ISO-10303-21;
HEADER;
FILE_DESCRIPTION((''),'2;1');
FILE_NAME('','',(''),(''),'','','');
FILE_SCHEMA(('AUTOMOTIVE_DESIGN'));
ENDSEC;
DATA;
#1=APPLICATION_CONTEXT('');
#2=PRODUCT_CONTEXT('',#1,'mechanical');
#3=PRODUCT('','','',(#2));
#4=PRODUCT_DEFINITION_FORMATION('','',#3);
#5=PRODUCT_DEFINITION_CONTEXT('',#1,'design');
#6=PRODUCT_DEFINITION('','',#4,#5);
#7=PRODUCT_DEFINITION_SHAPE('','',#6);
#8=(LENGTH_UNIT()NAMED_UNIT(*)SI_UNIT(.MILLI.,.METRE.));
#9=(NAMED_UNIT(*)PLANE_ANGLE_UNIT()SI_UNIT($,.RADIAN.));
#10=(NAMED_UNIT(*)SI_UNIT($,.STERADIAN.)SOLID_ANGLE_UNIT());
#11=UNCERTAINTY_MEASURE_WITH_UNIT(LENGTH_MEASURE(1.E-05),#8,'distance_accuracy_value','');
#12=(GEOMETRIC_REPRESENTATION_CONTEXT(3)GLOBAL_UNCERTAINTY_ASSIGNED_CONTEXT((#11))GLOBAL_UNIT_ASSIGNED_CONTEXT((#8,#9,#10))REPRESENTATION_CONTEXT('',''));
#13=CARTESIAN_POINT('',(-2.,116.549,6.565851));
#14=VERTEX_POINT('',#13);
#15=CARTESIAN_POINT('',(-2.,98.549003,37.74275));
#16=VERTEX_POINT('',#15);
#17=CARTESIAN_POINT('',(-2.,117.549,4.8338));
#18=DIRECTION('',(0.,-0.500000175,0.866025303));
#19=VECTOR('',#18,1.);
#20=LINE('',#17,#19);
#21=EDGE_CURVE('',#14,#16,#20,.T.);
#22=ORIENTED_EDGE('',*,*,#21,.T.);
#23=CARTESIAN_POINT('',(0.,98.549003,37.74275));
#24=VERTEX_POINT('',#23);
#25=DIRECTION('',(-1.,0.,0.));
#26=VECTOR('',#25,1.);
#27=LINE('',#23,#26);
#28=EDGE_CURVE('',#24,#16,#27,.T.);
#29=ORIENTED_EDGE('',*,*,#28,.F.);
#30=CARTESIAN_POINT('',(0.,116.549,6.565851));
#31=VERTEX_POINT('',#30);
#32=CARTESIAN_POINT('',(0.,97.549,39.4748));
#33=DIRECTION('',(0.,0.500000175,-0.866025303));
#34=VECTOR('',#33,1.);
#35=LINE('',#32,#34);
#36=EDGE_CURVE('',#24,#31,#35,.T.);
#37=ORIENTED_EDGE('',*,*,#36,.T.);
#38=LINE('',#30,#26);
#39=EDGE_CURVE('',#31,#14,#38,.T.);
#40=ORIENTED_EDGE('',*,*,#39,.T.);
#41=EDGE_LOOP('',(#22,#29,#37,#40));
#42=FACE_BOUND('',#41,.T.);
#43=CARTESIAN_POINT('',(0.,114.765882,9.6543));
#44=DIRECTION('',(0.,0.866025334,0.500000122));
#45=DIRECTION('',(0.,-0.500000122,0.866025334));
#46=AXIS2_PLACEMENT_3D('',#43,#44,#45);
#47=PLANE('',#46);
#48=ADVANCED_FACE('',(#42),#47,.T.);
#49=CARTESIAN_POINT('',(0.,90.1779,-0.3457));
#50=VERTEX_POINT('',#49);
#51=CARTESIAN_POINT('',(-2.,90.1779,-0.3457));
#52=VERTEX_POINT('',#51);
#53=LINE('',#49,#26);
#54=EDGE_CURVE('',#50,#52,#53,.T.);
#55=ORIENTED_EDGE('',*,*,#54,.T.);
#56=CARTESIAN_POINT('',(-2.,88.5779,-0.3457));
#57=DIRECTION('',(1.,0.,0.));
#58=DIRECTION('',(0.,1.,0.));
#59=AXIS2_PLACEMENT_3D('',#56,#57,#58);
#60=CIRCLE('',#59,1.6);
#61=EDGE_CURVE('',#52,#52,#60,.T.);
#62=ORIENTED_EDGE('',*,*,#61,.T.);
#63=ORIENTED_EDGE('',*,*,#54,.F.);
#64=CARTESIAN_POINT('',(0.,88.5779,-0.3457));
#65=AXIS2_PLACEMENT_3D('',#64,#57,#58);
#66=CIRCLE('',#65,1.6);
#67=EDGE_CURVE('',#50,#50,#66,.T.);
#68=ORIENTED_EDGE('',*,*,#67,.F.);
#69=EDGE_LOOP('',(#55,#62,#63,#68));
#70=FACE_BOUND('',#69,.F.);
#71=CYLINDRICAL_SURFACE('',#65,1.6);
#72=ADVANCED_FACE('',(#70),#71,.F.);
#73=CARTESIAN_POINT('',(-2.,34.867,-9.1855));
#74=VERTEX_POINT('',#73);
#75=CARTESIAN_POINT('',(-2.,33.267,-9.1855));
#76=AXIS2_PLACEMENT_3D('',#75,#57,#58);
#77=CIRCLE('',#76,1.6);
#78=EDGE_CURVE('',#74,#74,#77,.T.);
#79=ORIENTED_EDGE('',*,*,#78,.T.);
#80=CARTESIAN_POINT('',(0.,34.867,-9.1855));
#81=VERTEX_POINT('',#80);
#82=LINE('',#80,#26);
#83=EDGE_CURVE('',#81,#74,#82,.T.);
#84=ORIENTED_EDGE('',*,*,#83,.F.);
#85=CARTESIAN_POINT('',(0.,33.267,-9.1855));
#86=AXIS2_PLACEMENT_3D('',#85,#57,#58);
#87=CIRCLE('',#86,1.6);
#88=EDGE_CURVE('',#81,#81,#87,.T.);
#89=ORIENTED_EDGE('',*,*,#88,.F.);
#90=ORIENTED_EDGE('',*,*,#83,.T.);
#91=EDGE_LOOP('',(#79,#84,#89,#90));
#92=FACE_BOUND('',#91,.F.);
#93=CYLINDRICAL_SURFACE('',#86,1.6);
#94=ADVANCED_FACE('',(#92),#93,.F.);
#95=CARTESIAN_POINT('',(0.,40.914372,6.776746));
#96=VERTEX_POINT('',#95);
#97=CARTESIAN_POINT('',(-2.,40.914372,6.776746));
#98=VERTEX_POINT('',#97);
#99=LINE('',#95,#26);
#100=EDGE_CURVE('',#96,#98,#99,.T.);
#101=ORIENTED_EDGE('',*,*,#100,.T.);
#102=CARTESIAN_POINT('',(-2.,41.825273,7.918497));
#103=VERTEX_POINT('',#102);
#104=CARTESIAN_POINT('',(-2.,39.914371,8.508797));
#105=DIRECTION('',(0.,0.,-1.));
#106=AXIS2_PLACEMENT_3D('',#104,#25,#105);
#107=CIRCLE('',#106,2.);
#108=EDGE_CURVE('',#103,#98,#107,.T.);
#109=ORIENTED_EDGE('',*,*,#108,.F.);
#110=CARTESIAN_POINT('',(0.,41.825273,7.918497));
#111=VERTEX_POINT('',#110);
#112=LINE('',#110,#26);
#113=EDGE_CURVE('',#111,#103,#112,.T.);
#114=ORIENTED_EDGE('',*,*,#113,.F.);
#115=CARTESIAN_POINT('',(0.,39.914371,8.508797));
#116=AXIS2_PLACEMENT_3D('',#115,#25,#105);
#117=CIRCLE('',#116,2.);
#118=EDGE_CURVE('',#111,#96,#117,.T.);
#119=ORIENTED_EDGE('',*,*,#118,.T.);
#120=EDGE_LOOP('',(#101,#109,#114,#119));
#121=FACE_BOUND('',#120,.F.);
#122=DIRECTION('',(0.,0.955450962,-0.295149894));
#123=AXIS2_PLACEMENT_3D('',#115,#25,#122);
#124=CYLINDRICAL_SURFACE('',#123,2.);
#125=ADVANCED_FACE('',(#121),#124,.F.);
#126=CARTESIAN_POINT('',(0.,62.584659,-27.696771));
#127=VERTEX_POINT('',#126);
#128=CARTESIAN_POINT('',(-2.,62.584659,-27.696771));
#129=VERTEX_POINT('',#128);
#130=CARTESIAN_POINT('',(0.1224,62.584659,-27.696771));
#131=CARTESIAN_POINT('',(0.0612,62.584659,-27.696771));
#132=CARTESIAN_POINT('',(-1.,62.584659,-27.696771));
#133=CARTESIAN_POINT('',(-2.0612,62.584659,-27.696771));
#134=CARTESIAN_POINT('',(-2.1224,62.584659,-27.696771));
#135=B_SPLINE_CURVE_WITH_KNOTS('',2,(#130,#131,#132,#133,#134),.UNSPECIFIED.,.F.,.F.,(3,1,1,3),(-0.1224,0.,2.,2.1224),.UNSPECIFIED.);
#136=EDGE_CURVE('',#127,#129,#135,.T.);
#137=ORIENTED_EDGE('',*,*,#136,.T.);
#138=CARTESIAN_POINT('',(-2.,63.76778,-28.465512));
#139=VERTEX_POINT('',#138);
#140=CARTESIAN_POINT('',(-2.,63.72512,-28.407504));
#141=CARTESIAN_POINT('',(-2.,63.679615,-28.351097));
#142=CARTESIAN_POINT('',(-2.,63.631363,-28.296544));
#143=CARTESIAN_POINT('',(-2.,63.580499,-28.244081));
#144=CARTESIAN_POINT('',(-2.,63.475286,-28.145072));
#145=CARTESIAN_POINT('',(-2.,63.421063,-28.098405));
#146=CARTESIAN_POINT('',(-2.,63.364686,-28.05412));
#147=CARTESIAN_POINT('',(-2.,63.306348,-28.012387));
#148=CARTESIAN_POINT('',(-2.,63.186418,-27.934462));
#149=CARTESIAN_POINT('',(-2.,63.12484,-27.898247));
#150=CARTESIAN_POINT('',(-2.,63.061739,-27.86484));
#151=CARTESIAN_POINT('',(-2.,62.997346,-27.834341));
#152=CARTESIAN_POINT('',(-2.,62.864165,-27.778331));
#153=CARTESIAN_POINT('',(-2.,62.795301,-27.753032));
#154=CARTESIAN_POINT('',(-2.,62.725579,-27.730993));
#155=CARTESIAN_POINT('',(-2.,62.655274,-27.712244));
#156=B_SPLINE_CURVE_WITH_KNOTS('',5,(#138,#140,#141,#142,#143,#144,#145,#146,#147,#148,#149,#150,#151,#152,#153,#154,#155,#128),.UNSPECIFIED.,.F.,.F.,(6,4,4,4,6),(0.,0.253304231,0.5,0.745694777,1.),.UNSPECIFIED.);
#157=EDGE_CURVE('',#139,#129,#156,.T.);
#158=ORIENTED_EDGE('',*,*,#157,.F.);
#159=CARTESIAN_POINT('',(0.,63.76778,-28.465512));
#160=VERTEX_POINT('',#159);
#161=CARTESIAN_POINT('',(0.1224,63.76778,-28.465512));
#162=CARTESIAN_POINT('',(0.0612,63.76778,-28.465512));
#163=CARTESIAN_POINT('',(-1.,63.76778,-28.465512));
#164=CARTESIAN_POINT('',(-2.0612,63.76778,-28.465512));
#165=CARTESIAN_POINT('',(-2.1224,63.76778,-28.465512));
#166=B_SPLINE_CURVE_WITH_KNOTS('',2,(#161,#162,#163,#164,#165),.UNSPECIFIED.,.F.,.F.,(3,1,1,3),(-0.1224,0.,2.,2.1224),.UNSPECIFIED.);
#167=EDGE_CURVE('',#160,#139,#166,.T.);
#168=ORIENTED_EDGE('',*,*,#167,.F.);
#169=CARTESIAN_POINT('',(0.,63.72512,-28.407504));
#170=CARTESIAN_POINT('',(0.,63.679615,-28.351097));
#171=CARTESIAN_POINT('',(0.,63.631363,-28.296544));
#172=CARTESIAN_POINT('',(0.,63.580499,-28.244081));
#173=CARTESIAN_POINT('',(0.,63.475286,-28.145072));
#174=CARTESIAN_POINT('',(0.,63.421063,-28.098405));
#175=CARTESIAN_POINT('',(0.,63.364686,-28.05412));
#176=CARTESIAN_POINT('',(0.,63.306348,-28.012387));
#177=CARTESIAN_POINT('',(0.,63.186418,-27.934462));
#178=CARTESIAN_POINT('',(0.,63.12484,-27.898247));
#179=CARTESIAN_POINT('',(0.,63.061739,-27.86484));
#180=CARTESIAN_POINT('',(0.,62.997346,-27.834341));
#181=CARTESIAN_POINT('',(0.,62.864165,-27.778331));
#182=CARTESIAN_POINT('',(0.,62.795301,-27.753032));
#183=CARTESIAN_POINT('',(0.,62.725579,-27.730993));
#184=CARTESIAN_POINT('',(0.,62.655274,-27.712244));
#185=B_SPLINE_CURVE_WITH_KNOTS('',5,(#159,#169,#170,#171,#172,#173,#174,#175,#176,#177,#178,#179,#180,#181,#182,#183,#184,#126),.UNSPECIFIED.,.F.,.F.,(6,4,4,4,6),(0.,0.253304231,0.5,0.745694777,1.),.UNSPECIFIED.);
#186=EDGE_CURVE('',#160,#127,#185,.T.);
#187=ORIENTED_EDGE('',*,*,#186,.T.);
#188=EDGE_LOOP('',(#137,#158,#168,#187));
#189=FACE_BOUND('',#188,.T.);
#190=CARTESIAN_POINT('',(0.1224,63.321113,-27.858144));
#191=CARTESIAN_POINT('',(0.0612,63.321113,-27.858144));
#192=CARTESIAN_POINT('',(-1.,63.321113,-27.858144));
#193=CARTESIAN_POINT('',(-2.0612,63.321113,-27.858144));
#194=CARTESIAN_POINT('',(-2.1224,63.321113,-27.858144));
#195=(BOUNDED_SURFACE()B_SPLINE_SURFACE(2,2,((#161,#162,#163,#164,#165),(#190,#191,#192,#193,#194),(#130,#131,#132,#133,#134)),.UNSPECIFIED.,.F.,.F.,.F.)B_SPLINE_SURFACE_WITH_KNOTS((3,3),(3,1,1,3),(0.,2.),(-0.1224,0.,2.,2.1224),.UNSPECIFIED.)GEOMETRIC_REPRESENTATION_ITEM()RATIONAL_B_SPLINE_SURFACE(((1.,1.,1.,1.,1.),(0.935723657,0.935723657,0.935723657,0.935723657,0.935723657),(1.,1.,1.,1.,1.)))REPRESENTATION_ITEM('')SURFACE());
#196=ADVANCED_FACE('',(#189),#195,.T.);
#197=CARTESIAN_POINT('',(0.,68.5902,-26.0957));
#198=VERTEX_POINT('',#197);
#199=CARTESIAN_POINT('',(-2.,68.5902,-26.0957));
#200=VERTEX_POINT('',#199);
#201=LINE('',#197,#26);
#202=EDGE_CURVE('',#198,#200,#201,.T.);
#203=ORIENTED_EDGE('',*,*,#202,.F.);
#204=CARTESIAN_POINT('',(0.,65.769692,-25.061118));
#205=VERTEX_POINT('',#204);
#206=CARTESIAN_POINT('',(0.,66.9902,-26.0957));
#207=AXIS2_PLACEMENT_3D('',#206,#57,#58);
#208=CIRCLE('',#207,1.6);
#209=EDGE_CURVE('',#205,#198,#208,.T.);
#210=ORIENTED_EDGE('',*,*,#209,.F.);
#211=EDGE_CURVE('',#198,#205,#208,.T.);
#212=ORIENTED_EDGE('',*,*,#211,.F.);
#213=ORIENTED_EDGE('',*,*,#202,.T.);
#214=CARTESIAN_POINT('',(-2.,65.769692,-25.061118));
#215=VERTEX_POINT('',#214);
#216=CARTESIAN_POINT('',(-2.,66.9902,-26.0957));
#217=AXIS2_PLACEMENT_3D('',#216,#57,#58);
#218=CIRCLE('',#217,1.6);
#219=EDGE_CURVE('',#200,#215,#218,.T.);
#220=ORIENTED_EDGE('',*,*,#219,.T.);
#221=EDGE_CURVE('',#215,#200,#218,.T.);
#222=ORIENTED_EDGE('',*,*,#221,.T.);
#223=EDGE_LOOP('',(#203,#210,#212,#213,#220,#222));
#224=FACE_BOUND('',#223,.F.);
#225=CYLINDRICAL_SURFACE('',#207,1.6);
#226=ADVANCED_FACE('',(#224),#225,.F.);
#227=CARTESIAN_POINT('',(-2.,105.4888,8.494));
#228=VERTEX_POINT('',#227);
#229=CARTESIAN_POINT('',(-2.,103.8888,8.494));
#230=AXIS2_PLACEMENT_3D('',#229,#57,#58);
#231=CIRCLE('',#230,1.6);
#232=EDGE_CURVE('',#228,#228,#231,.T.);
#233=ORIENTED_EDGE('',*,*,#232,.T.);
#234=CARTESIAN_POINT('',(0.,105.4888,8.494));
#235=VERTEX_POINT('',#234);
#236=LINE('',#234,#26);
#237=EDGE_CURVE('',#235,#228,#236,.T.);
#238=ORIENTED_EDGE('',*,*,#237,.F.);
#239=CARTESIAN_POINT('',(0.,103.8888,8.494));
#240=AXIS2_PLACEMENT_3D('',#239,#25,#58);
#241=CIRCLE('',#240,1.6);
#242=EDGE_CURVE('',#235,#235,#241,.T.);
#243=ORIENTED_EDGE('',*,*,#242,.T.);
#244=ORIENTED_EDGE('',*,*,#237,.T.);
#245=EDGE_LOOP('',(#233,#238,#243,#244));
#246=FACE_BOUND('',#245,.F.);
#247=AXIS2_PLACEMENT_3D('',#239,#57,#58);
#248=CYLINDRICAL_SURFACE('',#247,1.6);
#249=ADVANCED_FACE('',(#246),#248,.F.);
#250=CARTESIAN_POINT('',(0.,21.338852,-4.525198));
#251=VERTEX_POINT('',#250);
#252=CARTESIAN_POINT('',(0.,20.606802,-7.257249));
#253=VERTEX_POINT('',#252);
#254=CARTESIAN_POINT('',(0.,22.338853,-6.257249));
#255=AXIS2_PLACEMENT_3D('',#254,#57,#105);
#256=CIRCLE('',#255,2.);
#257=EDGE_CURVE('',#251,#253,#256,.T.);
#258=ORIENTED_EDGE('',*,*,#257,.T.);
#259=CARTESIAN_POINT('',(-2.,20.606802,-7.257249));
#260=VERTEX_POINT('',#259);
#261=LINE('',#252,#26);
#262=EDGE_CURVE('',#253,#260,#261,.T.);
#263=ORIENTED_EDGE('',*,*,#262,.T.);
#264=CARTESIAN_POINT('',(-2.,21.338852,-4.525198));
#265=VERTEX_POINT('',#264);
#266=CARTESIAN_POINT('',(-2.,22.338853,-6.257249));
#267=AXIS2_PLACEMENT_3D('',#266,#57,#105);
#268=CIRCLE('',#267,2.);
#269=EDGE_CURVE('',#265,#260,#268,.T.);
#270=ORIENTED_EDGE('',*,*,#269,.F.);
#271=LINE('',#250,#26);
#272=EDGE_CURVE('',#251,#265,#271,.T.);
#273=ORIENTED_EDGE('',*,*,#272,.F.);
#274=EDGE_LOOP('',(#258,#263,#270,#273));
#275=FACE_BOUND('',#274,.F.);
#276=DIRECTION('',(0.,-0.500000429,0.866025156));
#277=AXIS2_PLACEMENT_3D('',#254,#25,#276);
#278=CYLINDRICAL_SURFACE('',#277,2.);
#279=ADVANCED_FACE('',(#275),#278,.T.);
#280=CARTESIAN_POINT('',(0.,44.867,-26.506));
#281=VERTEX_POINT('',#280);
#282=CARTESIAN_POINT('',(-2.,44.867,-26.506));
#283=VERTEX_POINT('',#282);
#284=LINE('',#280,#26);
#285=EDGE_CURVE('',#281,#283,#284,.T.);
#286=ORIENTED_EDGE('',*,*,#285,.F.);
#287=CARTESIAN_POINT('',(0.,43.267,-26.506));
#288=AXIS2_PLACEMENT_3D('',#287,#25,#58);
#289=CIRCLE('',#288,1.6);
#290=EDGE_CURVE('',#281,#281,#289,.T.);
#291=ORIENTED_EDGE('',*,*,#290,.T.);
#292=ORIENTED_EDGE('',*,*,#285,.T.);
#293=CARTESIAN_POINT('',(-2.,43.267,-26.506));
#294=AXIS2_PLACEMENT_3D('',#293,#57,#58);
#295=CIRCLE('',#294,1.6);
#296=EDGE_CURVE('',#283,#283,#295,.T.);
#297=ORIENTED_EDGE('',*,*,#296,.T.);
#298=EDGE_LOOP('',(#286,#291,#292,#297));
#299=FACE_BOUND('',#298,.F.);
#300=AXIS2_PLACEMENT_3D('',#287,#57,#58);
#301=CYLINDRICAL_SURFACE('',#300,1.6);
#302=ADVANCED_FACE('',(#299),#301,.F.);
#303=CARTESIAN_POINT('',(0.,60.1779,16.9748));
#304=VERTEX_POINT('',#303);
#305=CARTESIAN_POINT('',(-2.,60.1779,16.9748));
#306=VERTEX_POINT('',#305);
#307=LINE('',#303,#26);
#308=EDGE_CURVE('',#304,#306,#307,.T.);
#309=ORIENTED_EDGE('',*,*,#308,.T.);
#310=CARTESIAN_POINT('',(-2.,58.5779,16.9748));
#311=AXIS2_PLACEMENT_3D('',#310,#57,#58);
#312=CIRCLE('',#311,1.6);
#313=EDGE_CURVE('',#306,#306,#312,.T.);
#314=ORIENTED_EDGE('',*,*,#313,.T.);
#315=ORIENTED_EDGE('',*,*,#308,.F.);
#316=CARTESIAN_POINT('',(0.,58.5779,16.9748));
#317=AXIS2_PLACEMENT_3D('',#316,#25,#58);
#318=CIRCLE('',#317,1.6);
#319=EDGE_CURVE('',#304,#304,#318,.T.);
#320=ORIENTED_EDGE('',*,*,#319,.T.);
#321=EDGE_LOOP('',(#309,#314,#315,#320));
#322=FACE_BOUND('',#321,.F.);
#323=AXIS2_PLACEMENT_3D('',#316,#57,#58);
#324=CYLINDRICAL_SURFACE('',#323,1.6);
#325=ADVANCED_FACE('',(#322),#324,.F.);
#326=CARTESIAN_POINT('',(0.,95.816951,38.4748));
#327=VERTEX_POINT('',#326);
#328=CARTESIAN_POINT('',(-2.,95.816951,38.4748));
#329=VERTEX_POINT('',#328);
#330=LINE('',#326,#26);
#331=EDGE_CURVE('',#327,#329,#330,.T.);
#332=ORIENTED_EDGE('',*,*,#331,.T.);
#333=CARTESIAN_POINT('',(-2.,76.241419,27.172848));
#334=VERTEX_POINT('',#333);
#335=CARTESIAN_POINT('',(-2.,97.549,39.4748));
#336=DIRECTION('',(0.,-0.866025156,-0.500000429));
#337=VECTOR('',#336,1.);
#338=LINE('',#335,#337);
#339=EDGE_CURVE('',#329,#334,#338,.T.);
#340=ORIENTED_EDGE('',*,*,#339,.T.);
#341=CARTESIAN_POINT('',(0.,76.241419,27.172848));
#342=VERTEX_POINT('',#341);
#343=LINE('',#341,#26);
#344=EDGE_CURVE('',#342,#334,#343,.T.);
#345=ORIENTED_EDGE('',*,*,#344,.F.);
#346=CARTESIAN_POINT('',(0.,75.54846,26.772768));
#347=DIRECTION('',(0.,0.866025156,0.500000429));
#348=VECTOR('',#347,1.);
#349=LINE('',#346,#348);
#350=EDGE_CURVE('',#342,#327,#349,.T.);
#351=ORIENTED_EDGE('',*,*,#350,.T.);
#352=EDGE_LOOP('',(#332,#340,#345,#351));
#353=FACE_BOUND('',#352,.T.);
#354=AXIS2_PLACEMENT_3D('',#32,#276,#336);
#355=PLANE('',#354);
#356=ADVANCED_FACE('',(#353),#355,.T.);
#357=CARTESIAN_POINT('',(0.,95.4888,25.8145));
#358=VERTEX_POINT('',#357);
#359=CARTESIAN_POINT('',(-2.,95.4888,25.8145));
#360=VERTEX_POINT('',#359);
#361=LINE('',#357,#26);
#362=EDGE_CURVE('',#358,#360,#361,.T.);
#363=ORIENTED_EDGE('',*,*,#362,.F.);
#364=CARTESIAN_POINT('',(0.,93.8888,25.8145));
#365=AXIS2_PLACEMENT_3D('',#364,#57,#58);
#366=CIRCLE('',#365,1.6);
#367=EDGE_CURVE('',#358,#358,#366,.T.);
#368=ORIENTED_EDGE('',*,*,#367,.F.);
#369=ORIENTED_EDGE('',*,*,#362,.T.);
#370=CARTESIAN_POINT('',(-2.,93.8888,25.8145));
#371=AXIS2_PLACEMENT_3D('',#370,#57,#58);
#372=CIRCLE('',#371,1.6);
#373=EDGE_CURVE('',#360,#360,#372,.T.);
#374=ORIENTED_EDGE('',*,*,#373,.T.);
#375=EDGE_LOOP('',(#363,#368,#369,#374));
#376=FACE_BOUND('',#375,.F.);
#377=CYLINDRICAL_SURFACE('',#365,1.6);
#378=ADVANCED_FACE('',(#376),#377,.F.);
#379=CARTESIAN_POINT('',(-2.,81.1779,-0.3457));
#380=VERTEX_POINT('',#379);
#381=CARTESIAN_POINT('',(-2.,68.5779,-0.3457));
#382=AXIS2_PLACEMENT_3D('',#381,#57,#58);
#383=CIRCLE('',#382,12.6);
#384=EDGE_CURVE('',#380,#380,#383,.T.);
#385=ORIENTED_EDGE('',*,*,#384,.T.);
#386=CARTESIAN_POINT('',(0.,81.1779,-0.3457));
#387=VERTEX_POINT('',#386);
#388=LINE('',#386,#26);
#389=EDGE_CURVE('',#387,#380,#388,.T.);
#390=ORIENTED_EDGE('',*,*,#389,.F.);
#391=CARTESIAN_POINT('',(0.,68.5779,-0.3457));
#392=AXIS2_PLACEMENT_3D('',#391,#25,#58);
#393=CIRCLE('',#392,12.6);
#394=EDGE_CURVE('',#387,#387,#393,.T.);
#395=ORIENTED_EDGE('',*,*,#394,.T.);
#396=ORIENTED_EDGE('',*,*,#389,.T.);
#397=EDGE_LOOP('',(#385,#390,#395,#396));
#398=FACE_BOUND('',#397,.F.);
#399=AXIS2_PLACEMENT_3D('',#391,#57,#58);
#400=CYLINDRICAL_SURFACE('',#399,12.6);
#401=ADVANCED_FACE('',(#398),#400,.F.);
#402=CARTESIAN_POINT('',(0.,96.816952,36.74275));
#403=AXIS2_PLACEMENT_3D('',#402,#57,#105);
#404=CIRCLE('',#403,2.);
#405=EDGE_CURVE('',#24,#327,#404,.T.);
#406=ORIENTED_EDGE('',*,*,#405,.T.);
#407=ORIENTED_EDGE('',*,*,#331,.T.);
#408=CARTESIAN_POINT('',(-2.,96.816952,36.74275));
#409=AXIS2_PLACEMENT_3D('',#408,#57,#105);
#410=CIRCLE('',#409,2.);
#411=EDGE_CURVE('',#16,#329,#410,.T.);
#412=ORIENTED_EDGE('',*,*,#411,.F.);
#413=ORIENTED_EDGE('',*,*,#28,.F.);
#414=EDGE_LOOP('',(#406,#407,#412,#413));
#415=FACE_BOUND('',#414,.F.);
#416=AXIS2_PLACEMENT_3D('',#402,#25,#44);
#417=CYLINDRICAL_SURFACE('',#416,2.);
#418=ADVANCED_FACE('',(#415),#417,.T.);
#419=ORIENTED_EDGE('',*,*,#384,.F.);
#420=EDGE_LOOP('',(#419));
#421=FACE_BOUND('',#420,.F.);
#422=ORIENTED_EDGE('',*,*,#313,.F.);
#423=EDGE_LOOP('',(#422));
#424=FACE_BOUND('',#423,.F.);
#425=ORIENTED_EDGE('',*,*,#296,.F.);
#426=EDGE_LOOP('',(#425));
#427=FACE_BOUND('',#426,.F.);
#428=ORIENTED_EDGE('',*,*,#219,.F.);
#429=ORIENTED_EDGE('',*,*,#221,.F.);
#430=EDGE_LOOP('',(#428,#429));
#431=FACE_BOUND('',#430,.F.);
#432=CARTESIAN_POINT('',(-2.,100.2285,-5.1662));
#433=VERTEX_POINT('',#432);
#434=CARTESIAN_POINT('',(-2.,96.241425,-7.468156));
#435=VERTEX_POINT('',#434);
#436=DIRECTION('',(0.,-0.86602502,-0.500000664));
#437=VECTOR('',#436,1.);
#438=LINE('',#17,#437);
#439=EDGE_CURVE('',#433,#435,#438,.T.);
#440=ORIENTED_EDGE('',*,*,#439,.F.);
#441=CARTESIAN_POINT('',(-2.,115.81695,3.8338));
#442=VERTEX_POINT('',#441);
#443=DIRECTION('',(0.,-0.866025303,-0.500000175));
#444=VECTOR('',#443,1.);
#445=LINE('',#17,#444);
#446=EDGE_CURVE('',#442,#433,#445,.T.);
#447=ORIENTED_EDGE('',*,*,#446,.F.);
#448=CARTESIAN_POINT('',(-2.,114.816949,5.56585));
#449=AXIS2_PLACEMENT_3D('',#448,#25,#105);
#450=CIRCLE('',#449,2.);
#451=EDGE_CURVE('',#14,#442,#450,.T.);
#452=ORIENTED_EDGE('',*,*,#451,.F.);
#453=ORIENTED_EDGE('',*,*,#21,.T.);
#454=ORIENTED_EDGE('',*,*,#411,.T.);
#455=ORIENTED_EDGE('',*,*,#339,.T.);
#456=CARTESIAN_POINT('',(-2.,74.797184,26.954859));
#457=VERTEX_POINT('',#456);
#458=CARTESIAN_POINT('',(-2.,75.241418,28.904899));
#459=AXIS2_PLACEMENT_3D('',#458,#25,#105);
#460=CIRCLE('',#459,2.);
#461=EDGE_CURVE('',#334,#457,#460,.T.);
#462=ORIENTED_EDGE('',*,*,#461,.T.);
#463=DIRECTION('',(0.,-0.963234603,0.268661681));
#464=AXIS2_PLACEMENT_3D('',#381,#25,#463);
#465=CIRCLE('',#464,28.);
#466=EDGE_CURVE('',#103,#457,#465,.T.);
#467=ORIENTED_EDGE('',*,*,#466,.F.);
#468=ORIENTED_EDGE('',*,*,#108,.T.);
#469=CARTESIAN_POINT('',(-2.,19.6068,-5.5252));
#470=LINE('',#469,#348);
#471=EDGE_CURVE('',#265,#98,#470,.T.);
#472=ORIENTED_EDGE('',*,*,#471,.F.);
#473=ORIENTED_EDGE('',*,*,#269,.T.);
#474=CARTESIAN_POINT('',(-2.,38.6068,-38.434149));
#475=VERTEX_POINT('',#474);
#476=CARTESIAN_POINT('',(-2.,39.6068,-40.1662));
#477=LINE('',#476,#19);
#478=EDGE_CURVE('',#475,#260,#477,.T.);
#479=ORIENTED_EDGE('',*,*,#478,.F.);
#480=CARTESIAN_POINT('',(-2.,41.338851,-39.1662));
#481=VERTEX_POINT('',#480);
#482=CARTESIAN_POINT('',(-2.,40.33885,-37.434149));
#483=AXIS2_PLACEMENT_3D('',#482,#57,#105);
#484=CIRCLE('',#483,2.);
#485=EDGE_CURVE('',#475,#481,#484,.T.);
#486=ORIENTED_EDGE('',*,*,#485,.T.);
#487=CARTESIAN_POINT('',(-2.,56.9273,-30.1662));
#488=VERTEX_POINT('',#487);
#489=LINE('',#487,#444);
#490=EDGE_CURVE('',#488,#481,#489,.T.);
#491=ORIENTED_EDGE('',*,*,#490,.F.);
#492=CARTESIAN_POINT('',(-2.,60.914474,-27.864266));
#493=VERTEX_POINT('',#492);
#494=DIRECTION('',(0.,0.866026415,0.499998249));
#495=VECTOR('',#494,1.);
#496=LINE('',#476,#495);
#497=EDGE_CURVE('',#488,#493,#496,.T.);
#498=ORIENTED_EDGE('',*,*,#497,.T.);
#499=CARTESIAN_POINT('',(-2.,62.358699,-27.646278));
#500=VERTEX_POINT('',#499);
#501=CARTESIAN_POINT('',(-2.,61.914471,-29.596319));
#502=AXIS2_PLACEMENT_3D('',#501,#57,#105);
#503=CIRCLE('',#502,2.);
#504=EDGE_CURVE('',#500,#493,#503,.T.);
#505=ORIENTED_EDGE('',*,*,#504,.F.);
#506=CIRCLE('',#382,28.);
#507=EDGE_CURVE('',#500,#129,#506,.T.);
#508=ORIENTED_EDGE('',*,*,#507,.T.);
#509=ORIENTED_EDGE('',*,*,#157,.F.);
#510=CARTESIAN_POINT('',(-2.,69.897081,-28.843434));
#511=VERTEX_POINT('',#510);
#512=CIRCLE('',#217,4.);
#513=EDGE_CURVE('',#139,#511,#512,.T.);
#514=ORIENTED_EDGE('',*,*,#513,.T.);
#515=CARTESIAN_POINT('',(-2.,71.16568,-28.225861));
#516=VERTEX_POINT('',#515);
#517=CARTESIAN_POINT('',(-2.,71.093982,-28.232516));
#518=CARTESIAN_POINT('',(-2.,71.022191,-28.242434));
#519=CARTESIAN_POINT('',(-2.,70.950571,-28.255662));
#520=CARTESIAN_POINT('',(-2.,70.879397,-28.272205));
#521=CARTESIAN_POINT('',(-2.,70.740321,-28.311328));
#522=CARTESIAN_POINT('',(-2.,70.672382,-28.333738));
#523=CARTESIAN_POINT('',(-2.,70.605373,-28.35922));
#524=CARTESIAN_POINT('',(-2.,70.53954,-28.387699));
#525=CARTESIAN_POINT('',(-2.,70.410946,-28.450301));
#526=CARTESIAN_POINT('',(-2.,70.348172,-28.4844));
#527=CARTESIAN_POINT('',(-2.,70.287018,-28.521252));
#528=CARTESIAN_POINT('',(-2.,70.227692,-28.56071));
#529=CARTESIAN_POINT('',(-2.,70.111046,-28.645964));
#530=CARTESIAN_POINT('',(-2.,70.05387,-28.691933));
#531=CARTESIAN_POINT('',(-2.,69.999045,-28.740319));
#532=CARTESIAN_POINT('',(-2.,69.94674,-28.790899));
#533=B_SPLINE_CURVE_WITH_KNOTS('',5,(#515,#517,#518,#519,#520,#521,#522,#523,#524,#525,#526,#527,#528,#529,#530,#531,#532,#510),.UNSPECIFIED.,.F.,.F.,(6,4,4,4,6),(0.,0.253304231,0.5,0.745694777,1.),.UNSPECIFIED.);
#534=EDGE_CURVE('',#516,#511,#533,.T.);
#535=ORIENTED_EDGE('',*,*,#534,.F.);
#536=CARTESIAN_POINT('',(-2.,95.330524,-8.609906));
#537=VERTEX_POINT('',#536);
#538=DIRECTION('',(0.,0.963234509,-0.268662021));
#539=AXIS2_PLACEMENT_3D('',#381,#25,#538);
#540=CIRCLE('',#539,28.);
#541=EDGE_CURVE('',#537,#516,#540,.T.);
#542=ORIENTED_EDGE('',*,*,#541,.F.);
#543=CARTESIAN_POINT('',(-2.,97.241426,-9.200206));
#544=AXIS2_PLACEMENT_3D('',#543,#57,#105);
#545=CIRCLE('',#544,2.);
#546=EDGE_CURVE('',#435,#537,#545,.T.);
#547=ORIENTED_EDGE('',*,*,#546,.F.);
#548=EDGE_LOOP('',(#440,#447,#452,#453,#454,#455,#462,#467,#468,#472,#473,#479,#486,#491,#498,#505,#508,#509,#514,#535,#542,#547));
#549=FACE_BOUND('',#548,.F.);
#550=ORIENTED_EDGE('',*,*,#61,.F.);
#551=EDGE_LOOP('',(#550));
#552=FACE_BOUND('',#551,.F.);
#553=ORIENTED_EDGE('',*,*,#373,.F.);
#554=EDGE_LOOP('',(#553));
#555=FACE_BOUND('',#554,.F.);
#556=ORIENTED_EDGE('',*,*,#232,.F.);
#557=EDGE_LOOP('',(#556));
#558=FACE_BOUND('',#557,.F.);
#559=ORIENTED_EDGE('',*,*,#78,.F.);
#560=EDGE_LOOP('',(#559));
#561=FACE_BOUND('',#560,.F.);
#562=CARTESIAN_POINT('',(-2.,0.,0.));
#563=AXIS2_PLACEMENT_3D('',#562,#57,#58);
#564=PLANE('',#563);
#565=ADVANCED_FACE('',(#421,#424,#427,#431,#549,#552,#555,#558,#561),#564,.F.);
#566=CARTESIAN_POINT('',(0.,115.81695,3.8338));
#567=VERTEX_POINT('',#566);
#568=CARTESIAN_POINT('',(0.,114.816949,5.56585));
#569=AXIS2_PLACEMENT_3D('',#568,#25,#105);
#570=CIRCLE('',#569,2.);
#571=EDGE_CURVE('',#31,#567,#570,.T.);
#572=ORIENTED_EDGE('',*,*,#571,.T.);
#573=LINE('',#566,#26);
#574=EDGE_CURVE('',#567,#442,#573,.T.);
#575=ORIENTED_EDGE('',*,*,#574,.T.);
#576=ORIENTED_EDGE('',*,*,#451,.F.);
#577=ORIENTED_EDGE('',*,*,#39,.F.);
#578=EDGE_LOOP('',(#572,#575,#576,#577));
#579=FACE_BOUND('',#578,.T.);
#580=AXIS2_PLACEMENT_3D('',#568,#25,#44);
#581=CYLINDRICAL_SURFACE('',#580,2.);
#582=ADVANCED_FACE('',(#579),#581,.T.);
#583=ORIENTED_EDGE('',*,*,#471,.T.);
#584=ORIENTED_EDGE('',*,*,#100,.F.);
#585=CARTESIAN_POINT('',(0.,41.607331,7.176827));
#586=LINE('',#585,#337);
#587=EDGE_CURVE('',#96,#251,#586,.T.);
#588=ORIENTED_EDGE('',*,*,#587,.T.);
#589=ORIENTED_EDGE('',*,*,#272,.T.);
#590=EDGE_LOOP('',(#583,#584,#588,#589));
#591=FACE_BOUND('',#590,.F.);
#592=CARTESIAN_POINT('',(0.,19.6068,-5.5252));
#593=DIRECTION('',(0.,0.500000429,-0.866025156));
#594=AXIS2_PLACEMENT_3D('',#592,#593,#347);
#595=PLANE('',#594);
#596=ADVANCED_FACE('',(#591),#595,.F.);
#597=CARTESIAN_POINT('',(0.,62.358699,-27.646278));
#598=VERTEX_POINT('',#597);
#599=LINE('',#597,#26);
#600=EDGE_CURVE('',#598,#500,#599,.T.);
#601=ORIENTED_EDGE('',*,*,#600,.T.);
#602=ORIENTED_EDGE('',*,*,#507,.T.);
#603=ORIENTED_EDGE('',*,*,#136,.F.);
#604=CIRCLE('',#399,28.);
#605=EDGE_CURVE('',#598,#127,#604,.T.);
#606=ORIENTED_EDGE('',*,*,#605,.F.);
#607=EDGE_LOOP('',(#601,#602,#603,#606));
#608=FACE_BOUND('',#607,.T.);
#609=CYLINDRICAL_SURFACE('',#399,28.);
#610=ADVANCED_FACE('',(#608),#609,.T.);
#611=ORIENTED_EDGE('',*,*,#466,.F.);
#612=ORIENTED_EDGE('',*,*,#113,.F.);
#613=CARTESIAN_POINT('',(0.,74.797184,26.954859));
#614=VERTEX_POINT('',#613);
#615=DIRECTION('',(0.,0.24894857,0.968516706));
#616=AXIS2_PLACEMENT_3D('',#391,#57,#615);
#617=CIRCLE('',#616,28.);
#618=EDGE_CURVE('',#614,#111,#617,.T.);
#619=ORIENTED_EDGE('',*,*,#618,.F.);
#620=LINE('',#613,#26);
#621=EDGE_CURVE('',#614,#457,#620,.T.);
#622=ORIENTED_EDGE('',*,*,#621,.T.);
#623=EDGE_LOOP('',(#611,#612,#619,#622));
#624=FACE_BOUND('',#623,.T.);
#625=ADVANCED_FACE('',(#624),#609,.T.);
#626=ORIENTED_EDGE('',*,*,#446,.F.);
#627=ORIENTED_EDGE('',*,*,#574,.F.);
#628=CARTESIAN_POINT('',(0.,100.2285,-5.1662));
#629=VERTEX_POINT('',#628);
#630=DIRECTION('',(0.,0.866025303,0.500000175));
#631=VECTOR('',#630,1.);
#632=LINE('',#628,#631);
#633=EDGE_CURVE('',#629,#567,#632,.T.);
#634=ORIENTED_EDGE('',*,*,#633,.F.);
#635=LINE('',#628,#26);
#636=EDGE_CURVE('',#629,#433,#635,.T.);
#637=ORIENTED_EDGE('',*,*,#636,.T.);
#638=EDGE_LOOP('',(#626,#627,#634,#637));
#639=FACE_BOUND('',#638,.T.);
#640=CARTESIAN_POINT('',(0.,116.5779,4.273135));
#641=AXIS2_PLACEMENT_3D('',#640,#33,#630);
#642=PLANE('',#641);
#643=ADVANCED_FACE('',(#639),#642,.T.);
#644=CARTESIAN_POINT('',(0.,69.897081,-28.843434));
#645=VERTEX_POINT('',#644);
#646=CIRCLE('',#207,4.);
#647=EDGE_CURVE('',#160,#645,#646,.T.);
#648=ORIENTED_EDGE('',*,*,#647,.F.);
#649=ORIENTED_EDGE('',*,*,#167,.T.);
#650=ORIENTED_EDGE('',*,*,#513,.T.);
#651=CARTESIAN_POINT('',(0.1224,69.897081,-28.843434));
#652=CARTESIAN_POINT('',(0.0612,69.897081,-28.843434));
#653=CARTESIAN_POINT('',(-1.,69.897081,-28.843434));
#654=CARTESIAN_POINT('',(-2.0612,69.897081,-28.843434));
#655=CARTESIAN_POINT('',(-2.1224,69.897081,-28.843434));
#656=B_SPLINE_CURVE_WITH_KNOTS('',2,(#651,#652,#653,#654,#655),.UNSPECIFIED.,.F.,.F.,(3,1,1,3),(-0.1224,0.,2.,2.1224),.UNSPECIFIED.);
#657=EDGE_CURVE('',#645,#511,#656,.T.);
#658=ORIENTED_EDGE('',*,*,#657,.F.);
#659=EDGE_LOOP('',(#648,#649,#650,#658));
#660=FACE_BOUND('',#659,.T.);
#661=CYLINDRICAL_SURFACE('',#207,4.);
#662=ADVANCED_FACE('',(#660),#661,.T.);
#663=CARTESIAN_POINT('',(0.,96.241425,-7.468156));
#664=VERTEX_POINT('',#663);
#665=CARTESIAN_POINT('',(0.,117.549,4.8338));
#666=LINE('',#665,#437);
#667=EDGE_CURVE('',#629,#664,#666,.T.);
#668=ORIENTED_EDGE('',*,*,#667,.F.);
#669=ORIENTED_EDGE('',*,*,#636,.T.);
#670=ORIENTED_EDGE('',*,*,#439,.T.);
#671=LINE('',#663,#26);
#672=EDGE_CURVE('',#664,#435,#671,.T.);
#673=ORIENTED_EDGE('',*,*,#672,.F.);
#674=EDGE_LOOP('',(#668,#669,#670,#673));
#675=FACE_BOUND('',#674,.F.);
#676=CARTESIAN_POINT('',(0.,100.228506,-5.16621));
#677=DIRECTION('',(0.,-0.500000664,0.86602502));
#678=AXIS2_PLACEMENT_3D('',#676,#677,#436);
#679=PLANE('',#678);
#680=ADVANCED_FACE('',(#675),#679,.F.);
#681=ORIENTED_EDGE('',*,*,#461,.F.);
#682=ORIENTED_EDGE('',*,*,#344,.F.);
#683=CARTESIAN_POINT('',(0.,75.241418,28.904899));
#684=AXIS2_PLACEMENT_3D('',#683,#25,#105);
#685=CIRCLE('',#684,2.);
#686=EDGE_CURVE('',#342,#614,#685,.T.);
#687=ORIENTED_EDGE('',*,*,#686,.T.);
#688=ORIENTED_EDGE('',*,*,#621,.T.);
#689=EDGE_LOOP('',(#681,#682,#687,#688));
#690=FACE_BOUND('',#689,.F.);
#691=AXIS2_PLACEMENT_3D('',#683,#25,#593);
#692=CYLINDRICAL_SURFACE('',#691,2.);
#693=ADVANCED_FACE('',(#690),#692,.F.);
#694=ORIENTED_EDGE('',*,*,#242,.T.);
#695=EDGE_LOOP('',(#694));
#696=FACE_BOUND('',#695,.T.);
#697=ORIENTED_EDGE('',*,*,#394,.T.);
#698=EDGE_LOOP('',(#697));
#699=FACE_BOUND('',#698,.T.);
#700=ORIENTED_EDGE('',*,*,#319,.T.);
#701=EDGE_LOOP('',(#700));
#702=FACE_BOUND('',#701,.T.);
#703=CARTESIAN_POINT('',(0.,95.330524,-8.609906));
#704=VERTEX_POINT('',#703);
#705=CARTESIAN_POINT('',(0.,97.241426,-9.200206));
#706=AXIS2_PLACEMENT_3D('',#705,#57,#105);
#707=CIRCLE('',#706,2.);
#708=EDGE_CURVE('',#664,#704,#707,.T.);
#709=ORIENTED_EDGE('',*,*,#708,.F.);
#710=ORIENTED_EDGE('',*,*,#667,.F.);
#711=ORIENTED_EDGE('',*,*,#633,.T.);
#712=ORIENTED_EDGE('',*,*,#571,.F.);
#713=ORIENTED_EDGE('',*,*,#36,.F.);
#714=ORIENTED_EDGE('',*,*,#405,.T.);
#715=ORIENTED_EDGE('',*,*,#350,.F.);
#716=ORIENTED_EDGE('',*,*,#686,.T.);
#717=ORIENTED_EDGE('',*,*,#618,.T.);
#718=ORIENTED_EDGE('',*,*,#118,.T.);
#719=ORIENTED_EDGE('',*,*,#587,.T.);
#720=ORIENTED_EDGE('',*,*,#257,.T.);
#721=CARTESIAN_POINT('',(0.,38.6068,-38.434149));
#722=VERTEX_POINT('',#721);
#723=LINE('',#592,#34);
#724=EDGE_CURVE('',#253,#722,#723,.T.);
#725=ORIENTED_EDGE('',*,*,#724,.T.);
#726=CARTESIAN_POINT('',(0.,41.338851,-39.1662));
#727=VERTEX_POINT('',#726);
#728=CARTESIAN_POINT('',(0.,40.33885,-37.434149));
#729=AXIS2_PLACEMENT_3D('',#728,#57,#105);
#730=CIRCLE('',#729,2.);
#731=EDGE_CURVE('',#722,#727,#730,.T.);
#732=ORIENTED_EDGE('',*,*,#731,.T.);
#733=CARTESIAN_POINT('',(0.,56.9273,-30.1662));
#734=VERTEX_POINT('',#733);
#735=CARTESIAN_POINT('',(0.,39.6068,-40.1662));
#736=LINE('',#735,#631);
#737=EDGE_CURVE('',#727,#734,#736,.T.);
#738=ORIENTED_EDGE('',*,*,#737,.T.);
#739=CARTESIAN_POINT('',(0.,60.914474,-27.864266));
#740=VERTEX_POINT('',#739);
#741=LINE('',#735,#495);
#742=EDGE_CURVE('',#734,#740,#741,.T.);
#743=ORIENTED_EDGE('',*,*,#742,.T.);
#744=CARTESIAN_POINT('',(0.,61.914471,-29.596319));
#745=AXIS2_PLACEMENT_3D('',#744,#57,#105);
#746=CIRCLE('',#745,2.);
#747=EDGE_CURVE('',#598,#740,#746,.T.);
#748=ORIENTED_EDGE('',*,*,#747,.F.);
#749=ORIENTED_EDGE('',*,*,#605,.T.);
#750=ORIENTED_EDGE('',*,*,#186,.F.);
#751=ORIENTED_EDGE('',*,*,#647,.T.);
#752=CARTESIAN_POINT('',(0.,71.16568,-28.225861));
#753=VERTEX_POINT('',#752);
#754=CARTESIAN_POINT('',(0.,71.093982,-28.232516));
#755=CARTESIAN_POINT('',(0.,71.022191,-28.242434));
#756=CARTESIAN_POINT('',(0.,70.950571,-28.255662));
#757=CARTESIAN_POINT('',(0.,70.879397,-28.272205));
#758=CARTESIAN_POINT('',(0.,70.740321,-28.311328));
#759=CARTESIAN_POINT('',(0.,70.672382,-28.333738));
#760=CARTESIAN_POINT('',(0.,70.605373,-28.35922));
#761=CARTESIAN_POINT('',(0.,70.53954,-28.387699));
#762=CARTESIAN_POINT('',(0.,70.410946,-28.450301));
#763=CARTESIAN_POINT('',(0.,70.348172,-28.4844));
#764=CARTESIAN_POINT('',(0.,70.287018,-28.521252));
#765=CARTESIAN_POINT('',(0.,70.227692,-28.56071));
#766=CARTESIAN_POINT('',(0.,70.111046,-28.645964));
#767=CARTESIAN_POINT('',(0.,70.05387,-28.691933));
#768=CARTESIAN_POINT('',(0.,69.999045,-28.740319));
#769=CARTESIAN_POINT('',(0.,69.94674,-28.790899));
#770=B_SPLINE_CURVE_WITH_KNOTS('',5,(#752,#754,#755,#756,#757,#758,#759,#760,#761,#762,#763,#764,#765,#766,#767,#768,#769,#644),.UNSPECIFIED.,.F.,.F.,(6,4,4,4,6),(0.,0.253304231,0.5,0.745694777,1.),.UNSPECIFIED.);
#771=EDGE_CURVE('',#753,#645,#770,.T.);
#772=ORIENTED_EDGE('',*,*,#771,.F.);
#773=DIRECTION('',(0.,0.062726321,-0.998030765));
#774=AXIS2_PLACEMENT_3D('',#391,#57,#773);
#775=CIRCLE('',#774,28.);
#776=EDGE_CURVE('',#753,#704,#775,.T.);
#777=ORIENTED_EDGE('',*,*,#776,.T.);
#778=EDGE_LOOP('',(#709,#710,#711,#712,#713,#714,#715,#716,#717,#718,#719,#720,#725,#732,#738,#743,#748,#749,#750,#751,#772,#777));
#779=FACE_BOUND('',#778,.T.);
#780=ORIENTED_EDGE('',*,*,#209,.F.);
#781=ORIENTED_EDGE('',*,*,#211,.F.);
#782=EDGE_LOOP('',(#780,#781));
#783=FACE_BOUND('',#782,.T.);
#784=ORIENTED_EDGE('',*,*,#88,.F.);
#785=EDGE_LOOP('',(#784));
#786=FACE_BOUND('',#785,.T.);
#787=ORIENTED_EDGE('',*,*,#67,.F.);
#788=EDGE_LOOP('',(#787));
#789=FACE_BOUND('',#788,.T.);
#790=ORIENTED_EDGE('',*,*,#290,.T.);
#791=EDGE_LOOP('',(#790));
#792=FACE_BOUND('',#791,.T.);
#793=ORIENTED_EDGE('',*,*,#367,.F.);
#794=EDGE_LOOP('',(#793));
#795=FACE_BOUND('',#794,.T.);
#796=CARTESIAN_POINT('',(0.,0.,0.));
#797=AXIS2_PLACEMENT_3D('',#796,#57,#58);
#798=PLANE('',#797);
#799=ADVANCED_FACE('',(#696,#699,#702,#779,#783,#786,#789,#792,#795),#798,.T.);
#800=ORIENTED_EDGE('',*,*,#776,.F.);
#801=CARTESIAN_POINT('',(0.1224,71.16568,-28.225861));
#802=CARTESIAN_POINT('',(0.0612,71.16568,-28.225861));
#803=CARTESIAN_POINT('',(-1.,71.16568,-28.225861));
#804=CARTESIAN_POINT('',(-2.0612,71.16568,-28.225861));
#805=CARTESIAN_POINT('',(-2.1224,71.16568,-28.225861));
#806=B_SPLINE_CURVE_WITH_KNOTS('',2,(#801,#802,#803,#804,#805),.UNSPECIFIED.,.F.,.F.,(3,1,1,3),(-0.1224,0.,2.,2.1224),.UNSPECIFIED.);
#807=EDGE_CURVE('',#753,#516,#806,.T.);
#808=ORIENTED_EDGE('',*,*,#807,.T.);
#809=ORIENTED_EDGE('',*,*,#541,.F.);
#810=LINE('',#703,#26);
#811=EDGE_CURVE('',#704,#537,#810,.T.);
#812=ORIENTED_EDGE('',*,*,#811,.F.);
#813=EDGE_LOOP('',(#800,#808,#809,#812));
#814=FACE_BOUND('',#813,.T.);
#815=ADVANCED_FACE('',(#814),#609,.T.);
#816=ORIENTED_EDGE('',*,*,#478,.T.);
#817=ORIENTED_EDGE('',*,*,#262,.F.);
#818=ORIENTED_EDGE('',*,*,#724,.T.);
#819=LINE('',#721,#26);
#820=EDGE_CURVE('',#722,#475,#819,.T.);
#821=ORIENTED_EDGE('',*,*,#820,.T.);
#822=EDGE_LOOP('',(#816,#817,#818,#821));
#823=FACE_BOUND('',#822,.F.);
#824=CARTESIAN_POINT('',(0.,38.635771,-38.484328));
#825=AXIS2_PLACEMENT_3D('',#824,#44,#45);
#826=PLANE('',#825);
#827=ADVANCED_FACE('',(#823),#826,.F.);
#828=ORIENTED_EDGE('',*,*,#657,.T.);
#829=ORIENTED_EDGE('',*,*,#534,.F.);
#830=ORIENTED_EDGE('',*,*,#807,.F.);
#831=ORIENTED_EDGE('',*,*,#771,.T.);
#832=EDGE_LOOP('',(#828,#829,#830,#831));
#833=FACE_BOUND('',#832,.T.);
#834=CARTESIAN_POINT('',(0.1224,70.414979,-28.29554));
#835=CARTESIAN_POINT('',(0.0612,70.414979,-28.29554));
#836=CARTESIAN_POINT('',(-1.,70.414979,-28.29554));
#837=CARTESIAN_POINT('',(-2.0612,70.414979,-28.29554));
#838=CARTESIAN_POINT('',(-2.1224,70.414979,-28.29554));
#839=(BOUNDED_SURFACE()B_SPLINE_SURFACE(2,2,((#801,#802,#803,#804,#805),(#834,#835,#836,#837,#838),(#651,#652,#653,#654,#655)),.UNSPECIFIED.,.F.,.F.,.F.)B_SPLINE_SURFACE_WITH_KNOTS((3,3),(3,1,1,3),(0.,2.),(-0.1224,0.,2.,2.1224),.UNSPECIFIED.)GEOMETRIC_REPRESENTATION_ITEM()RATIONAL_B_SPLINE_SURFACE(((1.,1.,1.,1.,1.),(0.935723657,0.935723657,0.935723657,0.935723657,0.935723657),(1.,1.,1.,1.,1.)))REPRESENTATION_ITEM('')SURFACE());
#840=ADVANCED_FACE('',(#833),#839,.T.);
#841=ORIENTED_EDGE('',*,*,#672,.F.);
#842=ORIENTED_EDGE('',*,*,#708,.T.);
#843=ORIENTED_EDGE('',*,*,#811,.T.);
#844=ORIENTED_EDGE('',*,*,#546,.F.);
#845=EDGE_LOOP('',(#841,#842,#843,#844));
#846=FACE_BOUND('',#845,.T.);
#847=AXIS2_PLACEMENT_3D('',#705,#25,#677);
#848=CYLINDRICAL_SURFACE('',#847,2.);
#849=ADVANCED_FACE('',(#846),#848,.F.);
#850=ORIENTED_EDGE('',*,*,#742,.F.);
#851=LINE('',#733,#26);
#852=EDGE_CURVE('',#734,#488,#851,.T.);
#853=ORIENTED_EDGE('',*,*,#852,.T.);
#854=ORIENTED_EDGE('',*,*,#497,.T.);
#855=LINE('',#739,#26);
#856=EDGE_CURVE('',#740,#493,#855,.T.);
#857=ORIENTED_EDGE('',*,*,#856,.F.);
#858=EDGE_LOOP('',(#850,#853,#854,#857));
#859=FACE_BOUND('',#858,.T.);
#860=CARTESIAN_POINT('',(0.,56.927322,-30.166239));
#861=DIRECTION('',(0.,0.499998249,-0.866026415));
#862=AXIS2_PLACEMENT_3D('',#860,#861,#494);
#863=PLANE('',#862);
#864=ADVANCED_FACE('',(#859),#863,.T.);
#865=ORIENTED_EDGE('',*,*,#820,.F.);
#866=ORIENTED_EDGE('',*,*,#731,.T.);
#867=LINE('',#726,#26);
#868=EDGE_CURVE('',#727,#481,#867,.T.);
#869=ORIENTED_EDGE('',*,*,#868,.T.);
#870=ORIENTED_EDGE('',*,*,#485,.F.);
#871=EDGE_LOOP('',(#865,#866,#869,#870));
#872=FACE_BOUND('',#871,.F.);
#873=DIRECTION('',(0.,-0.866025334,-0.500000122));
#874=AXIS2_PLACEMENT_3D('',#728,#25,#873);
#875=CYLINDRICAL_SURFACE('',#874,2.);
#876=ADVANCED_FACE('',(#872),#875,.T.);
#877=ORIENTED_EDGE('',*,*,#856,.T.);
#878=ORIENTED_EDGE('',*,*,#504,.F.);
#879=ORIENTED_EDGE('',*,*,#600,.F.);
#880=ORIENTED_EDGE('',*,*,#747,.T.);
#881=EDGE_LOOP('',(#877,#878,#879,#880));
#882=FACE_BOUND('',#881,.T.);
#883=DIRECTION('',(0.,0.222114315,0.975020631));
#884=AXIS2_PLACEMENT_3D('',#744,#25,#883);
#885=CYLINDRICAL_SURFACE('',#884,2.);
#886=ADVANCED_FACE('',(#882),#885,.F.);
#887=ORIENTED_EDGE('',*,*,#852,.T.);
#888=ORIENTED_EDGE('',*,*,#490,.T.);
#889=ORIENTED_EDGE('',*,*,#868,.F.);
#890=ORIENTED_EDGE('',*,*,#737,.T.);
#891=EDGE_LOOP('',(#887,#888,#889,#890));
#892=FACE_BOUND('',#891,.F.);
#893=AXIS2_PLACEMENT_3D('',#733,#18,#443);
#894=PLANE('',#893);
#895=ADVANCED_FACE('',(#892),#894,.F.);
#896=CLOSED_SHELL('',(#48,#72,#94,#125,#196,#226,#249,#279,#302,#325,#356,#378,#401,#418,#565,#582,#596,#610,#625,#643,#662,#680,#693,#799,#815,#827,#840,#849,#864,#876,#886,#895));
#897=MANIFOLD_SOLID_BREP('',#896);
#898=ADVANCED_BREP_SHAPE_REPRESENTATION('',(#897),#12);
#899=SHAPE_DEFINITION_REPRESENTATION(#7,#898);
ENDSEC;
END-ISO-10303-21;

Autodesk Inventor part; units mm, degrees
ref_plane "YZ Plane" through (0, 0, 0) normal (1, 0, 0) x (0, 1, 0)
ref_plane "XZ Plane" through (0, 0, 0) normal (0, 1, 0) x (-1, 0, 0)
ref_plane "XY Plane" through (0, 0, 0) normal (0, 0, 1) x (1, 0, 0)
sketch "スケッチ5" plane through (0, 0, 0) normal (1, 0, 0) x (0, 1, 0)
  circle A0 centre (68.5779, -0.3457) radius 120
  line L0 (68.5779, -0.3457) -> (-262.8846, -0.3457) construction
  line L1 (136.0779, -117.2592) -> (-66.4221, -0.3457)
  circle A1 centre (68.5779, -0.3457) radius 5
  line L2 (68.5779, -0.3457) -> (136.0779, 116.5677) construction
  line L3 (68.5779, -0.3457) -> (136.0779, -117.2592) construction
  line L4 (68.5779, -0.3457) -> (-66.4221, -0.3457)
  line L5 (85.6138, 37.1613) -> (80.6138, 28.5011) construction
  line L6 (80.6138, 28.5011) -> (84.0779, 26.5011) construction
  line L7 (84.0779, 26.5011) -> (89.0779, 35.1613) construction
  line L8 (89.0779, 35.1613) -> (85.6138, 37.1613)
  line L9 (89.0779, 35.1613) -> (84.0779, 26.5011) construction
  line L10 (84.0779, 26.5011) -> (87.542, 24.5011) construction
  line L11 (87.542, 24.5011) -> (92.542, 33.1613) construction
  line L12 (92.542, 33.1613) -> (89.0779, 35.1613)
  line L13 (83.1138, 32.8312) -> (90.042, 28.8312) construction
  circle A2 centre (68.5779, -0.3457) radius 2.65 construction
  line L14 (85.3973, 37.2863) -> (78.8973, 26.028) construction
  line L15 (78.8973, 26.028) -> (74.5672, 28.528) construction
  line L16 (74.5672, 28.528) -> (81.0672, 39.7863) construction
  line L17 (81.0672, 39.7863) -> (85.3973, 37.2863)
  line L18 (92.7585, 33.0363) -> (86.2585, 21.778) construction
  line L19 (86.2585, 21.778) -> (90.5886, 19.278) construction
  line L20 (90.5886, 19.278) -> (97.0886, 30.5363) construction
  line L21 (97.0886, 30.5363) -> (92.7585, 33.0363)
  circle A3 centre (68.5779, -0.3457) radius 28.3207 construction
  line L22 (27.5779, 8.9043) -> (27.5779, 3.9043)
  line L23 (27.5779, 3.9043) -> (40.5779, 3.9043) construction
  line L24 (40.5779, 8.9043) -> (27.5779, 8.9043) construction
  line L25 (40.5779, 3.9043) -> (40.5779, 8.9043)
  line L26 (27.5779, -4.5957) -> (40.5779, -4.5957) construction
  line L27 (27.5779, -9.5957) -> (27.5779, -4.5957)
  line L28 (40.5779, -9.5957) -> (27.5779, -9.5957) construction
  line L29 (40.5779, -4.5957) -> (40.5779, -9.5957)
  line L30 (81.0672, -40.4778) -> (85.3973, -37.9778)
  line L31 (85.3973, -37.9778) -> (78.8973, -26.7194) construction
  line L32 (74.5672, -29.2194) -> (81.0672, -40.4778) construction
  line L33 (78.8973, -26.7194) -> (74.5672, -29.2194) construction
  line L34 (92.7585, -33.7278) -> (86.2585, -22.4694) construction
  line L35 (97.0886, -31.2278) -> (92.7585, -33.7278)
  line L36 (90.5886, -19.9694) -> (97.0886, -31.2278) construction
  line L37 (86.2585, -22.4694) -> (90.5886, -19.9694) construction
  line L38 (74.5672, 28.528) -> (73.9509, 27.4606)
  line L39 (90.5886, 19.278) -> (89.9724, 18.2106) construction
  line L40 (40.5779, 8.9043) -> (41.8104, 8.9043)
  line L41 (40.5779, -9.5957) -> (41.8104, -9.5957)
  line L42 (74.5672, -29.2194) -> (70.7713, -22.6449)
  line L43 (90.5886, -19.9694) -> (89.9724, -18.9021) construction
  line L44 (82.1888, 31.229) -> (72.1888, 13.9085) construction
  line L45 (72.1888, 13.9085) -> (66.9926, 16.9085) construction
  line L46 (66.9926, 16.9085) -> (76.9926, 34.229) construction
  line L47 (76.9926, 34.229) -> (82.1888, 31.229)
  circle A4 centre (72.0907, 19.7387) radius 1.5
  circle A5 centre (77.0907, 28.3989) radius 1.5
  circle A6 centre (84.2151, 12.7387) radius 1.5
  circle A7 centre (89.2151, 21.3989) radius 1.5
  circle A8 centre (39.4279, 6.6543) radius 1.5
  circle A9 centre (49.4279, 6.6543) radius 1.5
  circle A10 centre (49.4279, -7.3457) radius 1.5
  circle A11 centre (39.4279, -7.3457) radius 1.5
  circle A12 centre (77.0907, -29.0904) radius 1.5
  circle A13 centre (72.0907, -20.4301) radius 1.5
  circle A14 centre (84.2151, -13.4301) radius 1.5
  circle A15 centre (89.2151, -22.0904) radius 1.5
  line L48 (69.5907, 15.4085) -> (82.1888, 31.229) construction
  circle A16 centre (68.5779, -0.3457) radius 34.3835
  line L49 (60.5779, 46.6543) -> (-119.4221, 46.6543) construction
  line L50 (-119.4221, 46.6543) -> (-119.4221, 31.6543)
  line L51 (-119.4221, 31.6543) -> (60.5779, 31.6543) construction
  line L52 (60.5779, 31.6543) -> (60.5779, 46.6543) construction
  circle A17 centre (50.5779, 39.1543) radius 1.5 construction
  circle A18 centre (40.5779, 39.1543) radius 1.5 construction
  line L53 (34.1944, 46.6543) -> (34.1944, -0.3457) construction
  line L54 (60.5779, 46.6543) -> (87.898, 28.0965) construction
  line L55 (34.1944, -47.3457) -> (34.1944, -0.3457) construction
  line L56 (60.5779, -47.3457) -> (87.898, -28.7879) construction
  line L57 (60.5779, -47.3457) -> (-119.4221, -47.3457) construction
  line L58 (-119.4221, -32.3457) -> (60.5779, -32.3457) construction
  circle A19 centre (40.5779, -39.8457) radius 1.5 construction
  circle A20 centre (50.5779, -39.8457) radius 1.5 construction
  line L59 (68.5779, -0.3457) -> (51.3862, 29.4312)
  line L60 (53.2382, 46.2235) -> (35.9176, 36.2235)
  line L61 (35.9176, 36.2235) -> (40.9176, 27.5632)
  line L62 (40.9176, 27.5632) -> (58.2382, 37.5632)
  line L63 (58.2382, 37.5632) -> (53.2382, 46.2235)
  circle A21 centre (51.408, 39.3934) radius 1.5
  circle A22 centre (42.7478, 34.3934) radius 1.5
  circle A23 centre (42.7478, -35.0848) radius 1.5
  circle A24 centre (51.408, -40.0848) radius 1.5
  circle A25 centre (111.5779, -5.3457) radius 1.5
  circle A26 centre (111.5779, 4.6543) radius 1.5
  circle A27 centre (68.5779, -0.3457) radius 193.5
  line L64 (-124.2868, 15.3208) -> (151.4426, 174.5133)
  line L65 (68.5779, -0.3457) -> (8.5779, 103.5773)
  line L66 (68.5779, -0.3457) -> (68.5779, 193.1543)
  line L67 (117.549, 4.8338) -> (16.049, 180.6369)
  line L68 (16.049, 180.6369) -> (-1.2715, 170.6369)
  line L69 (-1.2715, 170.6369) -> (100.2285, -5.1662)
  line L70 (100.2285, -5.1662) -> (117.549, 4.8338)
  circle A28 centre (37.9737, 117.6622) radius 1.5
  circle A29 centre (13.3039, 170.3917) radius 1.5
  circle A30 centre (58.5779, 16.9748) radius 1.6
  circle A31 centre (68.5779, -0.3457) radius 10 construction
  circle A32 centre (103.8888, 8.494) radius 1.6
  circle A33 centre (93.8888, 25.8145) radius 1.6
  line L71 (117.549, 4.8338) -> (90.6574, -10.6921)
  line L72 (97.549, 39.4748) -> (64.1622, 20.1989)
  line L73 (19.6068, -5.5252) -> (52.9936, 13.7507)
  circle A34 centre (33.267, -9.1855) radius 1.6
  circle A35 centre (43.267, -26.506) radius 1.6
  line L74 (39.6068, -40.1662) -> (-61.8932, 135.6369)
  line L75 (56.9273, -30.1662) -> (39.6068, -40.1662)
  line L76 (39.6068, -40.1662) -> (66.4984, -24.6404)
  line L77 (68.5779, -0.3457) -> (51.3862, -30.1227)
  line L78 (69.2071, -12.256) -> (57.9487, -5.756) construction
  line L79 (57.9487, -5.756) -> (48.9487, -21.3444) construction
  line L80 (48.9487, -21.3444) -> (60.2071, -27.8444) construction
  line L81 (60.2071, -27.8444) -> (69.2071, -12.256) construction
  circle A36 centre (68.5779, -0.3457) radius 28
  circle A37 centre (68.5779, -0.3457) radius 38 construction
  circle A38 centre (68.5779, -0.3457) radius 12.6
  circle A39 centre (58.5779, -17.6662) radius 1.6
  circle A40 centre (88.5779, -0.3457) radius 1.6
  circle A41 centre (66.9902, -26.0957) radius 4
  circle A42 centre (66.9902, -26.0957) radius 1.6
  line L82 (58.2382, 37.5632) -> (60.7896, 33.144)
  line L83 (40.9176, 27.5632) -> (43.4691, 23.144)
  line L84 (58.2382, -38.2547) -> (60.7896, -33.8355)
  line L85 (53.2382, -46.915) -> (58.2382, -38.2547)
  line L86 (35.9176, -36.915) -> (53.2382, -46.915)
  circle A43 centre (51.408, -40.0848) radius 1.5
  circle A44 centre (42.7478, -35.0848) radius 1.5
  line L87 (40.9176, -28.2547) -> (35.9176, -36.915)
  line L88 (40.9176, -28.2547) -> (43.4691, -23.8355)
  line L89 (106.5779, 9.6543) -> (101.4751, 9.6543)
  line L90 (116.5779, 9.6543) -> (106.5779, 9.6543)
  line L91 (116.5779, -10.3457) -> (116.5779, 9.6543)
  circle A45 centre (111.5779, 4.6543) radius 1.5
  circle A46 centre (111.5779, -5.3457) radius 1.5
  line L92 (106.5779, -10.3457) -> (116.5779, -10.3457)
  line L93 (106.5779, -10.3457) -> (101.4751, -10.3457)
  point P0 (0, 0)
  point P1 (53.4487, -13.5502)
  point P2 (44.5779, 41.2235)
  point P3 (44.5779, -41.915)
  point P4 (116.5779, -0.3457)
  point P5 (41.6073, 7.1768)
  point P6 (61.6073, -27.4642)
  point P7 (63.4018, -27.8632)
  point P8 (70.3342, -28.2906)
  point P9 (95.5485, -7.8683)
  point P10 (100.2285, -5.1662)
  point P11 (75.5485, 26.7727)
  dimension "d169" = 3
  dimension "d170" = 3
  dimension "d171" = 10
  dimension "d172" = 10
  dimension "d173" = 7.5
  dimension "d174" = 7.5
  dimension "d175" = 60
  dimension "d176" = 10
  dimension "d177" = 10
  dimension "d178" = 10
  dimension "d179" = 3
  dimension "d180" = 5
  dimension "d181" = 5
  dimension "d182" = 360
  dimension "d183" = 387
  dimension "d184" = 110
  dimension "d185" = 60
  dimension "d186" = 20
  dimension "d187" = 73
  dimension "d188" = 3
  dimension "d189" = 3
  dimension "d190" = 7.5
  dimension "d191" = 7.5
  dimension "d192" = 7.5
  dimension "d193" = 7.5
  dimension "d194" = 3.2
  dimension "d195" = 20
  dimension "d196" = 20
  dimension "d197" = 3.2
  dimension "d198" = 3.2
  dimension "d199" = 10
  dimension "d200" = 10
  dimension "d201" = 10
  dimension "d202" = 20
  dimension "d203" = 10
  dimension "d204" = 120
  dimension "d205" = 13
  dimension "d206" = 18
  dimension "d207" = 6.5
  dimension "d208" = 56
  dimension "d209" = 10
  dimension "d210" = 25.2
  dimension "d211" = 25
  dimension "d212" = 20
  dimension "d213" = 360
  dimension "d214" = 8
  dimension "d215" = 5
  dimension "d216" = 5
  dimension "d217" = 3.2
  dimension "d218" = 360
extrude "押し出し4" add sketch "スケッチ5" against normal blind 2 contours L67 L90 L89 A32 A16 L72 | L67 L91 L70 A16 L89 A32 L90 | A36 L72 L66 | L66 A38 L59 A30 A36 | L67 L70 L91 | A16 L70 L69 A36 L72 | L73 A16 L4 | L4 A16 L88 A35 L87 L74 L73 | L69 A36 L72 A5 | L72 A36 L69 A41 L76 L77 A39 A38 L66 | L59 A30 A38 L4 A36 | A16 L73 A8 A36 L4 | L4 A36 L77 A16 | L87 L88 A35 A16 L75 L86 L74 | A36 L69 | A5 L72 | A38 L77 A1 L66 | L66 A1 L59 A38 | L4 A38 L77 A39 A36 | L73 L25 A8 | L86 L75 L74 | L69 L71 A36 | L59 A1 L4 A38 | A8 L25 L73 | L4 A1 L77 A38 | A36 L76 L75 A16 L77 | A39 L77 | L77 A39 | L76 A41 A36 | A41 A36 | A36 A41 | A11 L29 | L29 A11 | A4 | A6 | A7 | A9 | A10 | A13 | A14 | A23 | A26 picked at (77.6802, 27.4001) picked at (39.3486, 5.7524) picked at (40.6415, 6.0852)
extrude "押し出し5" cut sketch "スケッチ5" against normal blind 2 contours A38 L77 A1 L66 | L66 A1 L59 A38 | L59 A1 L4 A38 | L4 A1 L77 A38
fillet "フィレット4" radius 2 10 edges at (-1, 95.5485, -7.8683) (-1, 117.549, 4.8338) (-1, 97.549, 39.4748) (-1, 75.5485, 26.7727) (-1, 41.6073, 7.1768) (-1, 19.6068, -5.5252) (-1, 39.6068, -40.1662) (-1, 61.6073, -27.4642) (-1, 63.4018, -27.8632) (-1, 70.3342, -28.2906)
equation "\"d174\" = d173"
equation "\"d200\" = d201"
properties part number "hand-grab-v3-Plate-ASP_F" material "アルミニウム 6061"
